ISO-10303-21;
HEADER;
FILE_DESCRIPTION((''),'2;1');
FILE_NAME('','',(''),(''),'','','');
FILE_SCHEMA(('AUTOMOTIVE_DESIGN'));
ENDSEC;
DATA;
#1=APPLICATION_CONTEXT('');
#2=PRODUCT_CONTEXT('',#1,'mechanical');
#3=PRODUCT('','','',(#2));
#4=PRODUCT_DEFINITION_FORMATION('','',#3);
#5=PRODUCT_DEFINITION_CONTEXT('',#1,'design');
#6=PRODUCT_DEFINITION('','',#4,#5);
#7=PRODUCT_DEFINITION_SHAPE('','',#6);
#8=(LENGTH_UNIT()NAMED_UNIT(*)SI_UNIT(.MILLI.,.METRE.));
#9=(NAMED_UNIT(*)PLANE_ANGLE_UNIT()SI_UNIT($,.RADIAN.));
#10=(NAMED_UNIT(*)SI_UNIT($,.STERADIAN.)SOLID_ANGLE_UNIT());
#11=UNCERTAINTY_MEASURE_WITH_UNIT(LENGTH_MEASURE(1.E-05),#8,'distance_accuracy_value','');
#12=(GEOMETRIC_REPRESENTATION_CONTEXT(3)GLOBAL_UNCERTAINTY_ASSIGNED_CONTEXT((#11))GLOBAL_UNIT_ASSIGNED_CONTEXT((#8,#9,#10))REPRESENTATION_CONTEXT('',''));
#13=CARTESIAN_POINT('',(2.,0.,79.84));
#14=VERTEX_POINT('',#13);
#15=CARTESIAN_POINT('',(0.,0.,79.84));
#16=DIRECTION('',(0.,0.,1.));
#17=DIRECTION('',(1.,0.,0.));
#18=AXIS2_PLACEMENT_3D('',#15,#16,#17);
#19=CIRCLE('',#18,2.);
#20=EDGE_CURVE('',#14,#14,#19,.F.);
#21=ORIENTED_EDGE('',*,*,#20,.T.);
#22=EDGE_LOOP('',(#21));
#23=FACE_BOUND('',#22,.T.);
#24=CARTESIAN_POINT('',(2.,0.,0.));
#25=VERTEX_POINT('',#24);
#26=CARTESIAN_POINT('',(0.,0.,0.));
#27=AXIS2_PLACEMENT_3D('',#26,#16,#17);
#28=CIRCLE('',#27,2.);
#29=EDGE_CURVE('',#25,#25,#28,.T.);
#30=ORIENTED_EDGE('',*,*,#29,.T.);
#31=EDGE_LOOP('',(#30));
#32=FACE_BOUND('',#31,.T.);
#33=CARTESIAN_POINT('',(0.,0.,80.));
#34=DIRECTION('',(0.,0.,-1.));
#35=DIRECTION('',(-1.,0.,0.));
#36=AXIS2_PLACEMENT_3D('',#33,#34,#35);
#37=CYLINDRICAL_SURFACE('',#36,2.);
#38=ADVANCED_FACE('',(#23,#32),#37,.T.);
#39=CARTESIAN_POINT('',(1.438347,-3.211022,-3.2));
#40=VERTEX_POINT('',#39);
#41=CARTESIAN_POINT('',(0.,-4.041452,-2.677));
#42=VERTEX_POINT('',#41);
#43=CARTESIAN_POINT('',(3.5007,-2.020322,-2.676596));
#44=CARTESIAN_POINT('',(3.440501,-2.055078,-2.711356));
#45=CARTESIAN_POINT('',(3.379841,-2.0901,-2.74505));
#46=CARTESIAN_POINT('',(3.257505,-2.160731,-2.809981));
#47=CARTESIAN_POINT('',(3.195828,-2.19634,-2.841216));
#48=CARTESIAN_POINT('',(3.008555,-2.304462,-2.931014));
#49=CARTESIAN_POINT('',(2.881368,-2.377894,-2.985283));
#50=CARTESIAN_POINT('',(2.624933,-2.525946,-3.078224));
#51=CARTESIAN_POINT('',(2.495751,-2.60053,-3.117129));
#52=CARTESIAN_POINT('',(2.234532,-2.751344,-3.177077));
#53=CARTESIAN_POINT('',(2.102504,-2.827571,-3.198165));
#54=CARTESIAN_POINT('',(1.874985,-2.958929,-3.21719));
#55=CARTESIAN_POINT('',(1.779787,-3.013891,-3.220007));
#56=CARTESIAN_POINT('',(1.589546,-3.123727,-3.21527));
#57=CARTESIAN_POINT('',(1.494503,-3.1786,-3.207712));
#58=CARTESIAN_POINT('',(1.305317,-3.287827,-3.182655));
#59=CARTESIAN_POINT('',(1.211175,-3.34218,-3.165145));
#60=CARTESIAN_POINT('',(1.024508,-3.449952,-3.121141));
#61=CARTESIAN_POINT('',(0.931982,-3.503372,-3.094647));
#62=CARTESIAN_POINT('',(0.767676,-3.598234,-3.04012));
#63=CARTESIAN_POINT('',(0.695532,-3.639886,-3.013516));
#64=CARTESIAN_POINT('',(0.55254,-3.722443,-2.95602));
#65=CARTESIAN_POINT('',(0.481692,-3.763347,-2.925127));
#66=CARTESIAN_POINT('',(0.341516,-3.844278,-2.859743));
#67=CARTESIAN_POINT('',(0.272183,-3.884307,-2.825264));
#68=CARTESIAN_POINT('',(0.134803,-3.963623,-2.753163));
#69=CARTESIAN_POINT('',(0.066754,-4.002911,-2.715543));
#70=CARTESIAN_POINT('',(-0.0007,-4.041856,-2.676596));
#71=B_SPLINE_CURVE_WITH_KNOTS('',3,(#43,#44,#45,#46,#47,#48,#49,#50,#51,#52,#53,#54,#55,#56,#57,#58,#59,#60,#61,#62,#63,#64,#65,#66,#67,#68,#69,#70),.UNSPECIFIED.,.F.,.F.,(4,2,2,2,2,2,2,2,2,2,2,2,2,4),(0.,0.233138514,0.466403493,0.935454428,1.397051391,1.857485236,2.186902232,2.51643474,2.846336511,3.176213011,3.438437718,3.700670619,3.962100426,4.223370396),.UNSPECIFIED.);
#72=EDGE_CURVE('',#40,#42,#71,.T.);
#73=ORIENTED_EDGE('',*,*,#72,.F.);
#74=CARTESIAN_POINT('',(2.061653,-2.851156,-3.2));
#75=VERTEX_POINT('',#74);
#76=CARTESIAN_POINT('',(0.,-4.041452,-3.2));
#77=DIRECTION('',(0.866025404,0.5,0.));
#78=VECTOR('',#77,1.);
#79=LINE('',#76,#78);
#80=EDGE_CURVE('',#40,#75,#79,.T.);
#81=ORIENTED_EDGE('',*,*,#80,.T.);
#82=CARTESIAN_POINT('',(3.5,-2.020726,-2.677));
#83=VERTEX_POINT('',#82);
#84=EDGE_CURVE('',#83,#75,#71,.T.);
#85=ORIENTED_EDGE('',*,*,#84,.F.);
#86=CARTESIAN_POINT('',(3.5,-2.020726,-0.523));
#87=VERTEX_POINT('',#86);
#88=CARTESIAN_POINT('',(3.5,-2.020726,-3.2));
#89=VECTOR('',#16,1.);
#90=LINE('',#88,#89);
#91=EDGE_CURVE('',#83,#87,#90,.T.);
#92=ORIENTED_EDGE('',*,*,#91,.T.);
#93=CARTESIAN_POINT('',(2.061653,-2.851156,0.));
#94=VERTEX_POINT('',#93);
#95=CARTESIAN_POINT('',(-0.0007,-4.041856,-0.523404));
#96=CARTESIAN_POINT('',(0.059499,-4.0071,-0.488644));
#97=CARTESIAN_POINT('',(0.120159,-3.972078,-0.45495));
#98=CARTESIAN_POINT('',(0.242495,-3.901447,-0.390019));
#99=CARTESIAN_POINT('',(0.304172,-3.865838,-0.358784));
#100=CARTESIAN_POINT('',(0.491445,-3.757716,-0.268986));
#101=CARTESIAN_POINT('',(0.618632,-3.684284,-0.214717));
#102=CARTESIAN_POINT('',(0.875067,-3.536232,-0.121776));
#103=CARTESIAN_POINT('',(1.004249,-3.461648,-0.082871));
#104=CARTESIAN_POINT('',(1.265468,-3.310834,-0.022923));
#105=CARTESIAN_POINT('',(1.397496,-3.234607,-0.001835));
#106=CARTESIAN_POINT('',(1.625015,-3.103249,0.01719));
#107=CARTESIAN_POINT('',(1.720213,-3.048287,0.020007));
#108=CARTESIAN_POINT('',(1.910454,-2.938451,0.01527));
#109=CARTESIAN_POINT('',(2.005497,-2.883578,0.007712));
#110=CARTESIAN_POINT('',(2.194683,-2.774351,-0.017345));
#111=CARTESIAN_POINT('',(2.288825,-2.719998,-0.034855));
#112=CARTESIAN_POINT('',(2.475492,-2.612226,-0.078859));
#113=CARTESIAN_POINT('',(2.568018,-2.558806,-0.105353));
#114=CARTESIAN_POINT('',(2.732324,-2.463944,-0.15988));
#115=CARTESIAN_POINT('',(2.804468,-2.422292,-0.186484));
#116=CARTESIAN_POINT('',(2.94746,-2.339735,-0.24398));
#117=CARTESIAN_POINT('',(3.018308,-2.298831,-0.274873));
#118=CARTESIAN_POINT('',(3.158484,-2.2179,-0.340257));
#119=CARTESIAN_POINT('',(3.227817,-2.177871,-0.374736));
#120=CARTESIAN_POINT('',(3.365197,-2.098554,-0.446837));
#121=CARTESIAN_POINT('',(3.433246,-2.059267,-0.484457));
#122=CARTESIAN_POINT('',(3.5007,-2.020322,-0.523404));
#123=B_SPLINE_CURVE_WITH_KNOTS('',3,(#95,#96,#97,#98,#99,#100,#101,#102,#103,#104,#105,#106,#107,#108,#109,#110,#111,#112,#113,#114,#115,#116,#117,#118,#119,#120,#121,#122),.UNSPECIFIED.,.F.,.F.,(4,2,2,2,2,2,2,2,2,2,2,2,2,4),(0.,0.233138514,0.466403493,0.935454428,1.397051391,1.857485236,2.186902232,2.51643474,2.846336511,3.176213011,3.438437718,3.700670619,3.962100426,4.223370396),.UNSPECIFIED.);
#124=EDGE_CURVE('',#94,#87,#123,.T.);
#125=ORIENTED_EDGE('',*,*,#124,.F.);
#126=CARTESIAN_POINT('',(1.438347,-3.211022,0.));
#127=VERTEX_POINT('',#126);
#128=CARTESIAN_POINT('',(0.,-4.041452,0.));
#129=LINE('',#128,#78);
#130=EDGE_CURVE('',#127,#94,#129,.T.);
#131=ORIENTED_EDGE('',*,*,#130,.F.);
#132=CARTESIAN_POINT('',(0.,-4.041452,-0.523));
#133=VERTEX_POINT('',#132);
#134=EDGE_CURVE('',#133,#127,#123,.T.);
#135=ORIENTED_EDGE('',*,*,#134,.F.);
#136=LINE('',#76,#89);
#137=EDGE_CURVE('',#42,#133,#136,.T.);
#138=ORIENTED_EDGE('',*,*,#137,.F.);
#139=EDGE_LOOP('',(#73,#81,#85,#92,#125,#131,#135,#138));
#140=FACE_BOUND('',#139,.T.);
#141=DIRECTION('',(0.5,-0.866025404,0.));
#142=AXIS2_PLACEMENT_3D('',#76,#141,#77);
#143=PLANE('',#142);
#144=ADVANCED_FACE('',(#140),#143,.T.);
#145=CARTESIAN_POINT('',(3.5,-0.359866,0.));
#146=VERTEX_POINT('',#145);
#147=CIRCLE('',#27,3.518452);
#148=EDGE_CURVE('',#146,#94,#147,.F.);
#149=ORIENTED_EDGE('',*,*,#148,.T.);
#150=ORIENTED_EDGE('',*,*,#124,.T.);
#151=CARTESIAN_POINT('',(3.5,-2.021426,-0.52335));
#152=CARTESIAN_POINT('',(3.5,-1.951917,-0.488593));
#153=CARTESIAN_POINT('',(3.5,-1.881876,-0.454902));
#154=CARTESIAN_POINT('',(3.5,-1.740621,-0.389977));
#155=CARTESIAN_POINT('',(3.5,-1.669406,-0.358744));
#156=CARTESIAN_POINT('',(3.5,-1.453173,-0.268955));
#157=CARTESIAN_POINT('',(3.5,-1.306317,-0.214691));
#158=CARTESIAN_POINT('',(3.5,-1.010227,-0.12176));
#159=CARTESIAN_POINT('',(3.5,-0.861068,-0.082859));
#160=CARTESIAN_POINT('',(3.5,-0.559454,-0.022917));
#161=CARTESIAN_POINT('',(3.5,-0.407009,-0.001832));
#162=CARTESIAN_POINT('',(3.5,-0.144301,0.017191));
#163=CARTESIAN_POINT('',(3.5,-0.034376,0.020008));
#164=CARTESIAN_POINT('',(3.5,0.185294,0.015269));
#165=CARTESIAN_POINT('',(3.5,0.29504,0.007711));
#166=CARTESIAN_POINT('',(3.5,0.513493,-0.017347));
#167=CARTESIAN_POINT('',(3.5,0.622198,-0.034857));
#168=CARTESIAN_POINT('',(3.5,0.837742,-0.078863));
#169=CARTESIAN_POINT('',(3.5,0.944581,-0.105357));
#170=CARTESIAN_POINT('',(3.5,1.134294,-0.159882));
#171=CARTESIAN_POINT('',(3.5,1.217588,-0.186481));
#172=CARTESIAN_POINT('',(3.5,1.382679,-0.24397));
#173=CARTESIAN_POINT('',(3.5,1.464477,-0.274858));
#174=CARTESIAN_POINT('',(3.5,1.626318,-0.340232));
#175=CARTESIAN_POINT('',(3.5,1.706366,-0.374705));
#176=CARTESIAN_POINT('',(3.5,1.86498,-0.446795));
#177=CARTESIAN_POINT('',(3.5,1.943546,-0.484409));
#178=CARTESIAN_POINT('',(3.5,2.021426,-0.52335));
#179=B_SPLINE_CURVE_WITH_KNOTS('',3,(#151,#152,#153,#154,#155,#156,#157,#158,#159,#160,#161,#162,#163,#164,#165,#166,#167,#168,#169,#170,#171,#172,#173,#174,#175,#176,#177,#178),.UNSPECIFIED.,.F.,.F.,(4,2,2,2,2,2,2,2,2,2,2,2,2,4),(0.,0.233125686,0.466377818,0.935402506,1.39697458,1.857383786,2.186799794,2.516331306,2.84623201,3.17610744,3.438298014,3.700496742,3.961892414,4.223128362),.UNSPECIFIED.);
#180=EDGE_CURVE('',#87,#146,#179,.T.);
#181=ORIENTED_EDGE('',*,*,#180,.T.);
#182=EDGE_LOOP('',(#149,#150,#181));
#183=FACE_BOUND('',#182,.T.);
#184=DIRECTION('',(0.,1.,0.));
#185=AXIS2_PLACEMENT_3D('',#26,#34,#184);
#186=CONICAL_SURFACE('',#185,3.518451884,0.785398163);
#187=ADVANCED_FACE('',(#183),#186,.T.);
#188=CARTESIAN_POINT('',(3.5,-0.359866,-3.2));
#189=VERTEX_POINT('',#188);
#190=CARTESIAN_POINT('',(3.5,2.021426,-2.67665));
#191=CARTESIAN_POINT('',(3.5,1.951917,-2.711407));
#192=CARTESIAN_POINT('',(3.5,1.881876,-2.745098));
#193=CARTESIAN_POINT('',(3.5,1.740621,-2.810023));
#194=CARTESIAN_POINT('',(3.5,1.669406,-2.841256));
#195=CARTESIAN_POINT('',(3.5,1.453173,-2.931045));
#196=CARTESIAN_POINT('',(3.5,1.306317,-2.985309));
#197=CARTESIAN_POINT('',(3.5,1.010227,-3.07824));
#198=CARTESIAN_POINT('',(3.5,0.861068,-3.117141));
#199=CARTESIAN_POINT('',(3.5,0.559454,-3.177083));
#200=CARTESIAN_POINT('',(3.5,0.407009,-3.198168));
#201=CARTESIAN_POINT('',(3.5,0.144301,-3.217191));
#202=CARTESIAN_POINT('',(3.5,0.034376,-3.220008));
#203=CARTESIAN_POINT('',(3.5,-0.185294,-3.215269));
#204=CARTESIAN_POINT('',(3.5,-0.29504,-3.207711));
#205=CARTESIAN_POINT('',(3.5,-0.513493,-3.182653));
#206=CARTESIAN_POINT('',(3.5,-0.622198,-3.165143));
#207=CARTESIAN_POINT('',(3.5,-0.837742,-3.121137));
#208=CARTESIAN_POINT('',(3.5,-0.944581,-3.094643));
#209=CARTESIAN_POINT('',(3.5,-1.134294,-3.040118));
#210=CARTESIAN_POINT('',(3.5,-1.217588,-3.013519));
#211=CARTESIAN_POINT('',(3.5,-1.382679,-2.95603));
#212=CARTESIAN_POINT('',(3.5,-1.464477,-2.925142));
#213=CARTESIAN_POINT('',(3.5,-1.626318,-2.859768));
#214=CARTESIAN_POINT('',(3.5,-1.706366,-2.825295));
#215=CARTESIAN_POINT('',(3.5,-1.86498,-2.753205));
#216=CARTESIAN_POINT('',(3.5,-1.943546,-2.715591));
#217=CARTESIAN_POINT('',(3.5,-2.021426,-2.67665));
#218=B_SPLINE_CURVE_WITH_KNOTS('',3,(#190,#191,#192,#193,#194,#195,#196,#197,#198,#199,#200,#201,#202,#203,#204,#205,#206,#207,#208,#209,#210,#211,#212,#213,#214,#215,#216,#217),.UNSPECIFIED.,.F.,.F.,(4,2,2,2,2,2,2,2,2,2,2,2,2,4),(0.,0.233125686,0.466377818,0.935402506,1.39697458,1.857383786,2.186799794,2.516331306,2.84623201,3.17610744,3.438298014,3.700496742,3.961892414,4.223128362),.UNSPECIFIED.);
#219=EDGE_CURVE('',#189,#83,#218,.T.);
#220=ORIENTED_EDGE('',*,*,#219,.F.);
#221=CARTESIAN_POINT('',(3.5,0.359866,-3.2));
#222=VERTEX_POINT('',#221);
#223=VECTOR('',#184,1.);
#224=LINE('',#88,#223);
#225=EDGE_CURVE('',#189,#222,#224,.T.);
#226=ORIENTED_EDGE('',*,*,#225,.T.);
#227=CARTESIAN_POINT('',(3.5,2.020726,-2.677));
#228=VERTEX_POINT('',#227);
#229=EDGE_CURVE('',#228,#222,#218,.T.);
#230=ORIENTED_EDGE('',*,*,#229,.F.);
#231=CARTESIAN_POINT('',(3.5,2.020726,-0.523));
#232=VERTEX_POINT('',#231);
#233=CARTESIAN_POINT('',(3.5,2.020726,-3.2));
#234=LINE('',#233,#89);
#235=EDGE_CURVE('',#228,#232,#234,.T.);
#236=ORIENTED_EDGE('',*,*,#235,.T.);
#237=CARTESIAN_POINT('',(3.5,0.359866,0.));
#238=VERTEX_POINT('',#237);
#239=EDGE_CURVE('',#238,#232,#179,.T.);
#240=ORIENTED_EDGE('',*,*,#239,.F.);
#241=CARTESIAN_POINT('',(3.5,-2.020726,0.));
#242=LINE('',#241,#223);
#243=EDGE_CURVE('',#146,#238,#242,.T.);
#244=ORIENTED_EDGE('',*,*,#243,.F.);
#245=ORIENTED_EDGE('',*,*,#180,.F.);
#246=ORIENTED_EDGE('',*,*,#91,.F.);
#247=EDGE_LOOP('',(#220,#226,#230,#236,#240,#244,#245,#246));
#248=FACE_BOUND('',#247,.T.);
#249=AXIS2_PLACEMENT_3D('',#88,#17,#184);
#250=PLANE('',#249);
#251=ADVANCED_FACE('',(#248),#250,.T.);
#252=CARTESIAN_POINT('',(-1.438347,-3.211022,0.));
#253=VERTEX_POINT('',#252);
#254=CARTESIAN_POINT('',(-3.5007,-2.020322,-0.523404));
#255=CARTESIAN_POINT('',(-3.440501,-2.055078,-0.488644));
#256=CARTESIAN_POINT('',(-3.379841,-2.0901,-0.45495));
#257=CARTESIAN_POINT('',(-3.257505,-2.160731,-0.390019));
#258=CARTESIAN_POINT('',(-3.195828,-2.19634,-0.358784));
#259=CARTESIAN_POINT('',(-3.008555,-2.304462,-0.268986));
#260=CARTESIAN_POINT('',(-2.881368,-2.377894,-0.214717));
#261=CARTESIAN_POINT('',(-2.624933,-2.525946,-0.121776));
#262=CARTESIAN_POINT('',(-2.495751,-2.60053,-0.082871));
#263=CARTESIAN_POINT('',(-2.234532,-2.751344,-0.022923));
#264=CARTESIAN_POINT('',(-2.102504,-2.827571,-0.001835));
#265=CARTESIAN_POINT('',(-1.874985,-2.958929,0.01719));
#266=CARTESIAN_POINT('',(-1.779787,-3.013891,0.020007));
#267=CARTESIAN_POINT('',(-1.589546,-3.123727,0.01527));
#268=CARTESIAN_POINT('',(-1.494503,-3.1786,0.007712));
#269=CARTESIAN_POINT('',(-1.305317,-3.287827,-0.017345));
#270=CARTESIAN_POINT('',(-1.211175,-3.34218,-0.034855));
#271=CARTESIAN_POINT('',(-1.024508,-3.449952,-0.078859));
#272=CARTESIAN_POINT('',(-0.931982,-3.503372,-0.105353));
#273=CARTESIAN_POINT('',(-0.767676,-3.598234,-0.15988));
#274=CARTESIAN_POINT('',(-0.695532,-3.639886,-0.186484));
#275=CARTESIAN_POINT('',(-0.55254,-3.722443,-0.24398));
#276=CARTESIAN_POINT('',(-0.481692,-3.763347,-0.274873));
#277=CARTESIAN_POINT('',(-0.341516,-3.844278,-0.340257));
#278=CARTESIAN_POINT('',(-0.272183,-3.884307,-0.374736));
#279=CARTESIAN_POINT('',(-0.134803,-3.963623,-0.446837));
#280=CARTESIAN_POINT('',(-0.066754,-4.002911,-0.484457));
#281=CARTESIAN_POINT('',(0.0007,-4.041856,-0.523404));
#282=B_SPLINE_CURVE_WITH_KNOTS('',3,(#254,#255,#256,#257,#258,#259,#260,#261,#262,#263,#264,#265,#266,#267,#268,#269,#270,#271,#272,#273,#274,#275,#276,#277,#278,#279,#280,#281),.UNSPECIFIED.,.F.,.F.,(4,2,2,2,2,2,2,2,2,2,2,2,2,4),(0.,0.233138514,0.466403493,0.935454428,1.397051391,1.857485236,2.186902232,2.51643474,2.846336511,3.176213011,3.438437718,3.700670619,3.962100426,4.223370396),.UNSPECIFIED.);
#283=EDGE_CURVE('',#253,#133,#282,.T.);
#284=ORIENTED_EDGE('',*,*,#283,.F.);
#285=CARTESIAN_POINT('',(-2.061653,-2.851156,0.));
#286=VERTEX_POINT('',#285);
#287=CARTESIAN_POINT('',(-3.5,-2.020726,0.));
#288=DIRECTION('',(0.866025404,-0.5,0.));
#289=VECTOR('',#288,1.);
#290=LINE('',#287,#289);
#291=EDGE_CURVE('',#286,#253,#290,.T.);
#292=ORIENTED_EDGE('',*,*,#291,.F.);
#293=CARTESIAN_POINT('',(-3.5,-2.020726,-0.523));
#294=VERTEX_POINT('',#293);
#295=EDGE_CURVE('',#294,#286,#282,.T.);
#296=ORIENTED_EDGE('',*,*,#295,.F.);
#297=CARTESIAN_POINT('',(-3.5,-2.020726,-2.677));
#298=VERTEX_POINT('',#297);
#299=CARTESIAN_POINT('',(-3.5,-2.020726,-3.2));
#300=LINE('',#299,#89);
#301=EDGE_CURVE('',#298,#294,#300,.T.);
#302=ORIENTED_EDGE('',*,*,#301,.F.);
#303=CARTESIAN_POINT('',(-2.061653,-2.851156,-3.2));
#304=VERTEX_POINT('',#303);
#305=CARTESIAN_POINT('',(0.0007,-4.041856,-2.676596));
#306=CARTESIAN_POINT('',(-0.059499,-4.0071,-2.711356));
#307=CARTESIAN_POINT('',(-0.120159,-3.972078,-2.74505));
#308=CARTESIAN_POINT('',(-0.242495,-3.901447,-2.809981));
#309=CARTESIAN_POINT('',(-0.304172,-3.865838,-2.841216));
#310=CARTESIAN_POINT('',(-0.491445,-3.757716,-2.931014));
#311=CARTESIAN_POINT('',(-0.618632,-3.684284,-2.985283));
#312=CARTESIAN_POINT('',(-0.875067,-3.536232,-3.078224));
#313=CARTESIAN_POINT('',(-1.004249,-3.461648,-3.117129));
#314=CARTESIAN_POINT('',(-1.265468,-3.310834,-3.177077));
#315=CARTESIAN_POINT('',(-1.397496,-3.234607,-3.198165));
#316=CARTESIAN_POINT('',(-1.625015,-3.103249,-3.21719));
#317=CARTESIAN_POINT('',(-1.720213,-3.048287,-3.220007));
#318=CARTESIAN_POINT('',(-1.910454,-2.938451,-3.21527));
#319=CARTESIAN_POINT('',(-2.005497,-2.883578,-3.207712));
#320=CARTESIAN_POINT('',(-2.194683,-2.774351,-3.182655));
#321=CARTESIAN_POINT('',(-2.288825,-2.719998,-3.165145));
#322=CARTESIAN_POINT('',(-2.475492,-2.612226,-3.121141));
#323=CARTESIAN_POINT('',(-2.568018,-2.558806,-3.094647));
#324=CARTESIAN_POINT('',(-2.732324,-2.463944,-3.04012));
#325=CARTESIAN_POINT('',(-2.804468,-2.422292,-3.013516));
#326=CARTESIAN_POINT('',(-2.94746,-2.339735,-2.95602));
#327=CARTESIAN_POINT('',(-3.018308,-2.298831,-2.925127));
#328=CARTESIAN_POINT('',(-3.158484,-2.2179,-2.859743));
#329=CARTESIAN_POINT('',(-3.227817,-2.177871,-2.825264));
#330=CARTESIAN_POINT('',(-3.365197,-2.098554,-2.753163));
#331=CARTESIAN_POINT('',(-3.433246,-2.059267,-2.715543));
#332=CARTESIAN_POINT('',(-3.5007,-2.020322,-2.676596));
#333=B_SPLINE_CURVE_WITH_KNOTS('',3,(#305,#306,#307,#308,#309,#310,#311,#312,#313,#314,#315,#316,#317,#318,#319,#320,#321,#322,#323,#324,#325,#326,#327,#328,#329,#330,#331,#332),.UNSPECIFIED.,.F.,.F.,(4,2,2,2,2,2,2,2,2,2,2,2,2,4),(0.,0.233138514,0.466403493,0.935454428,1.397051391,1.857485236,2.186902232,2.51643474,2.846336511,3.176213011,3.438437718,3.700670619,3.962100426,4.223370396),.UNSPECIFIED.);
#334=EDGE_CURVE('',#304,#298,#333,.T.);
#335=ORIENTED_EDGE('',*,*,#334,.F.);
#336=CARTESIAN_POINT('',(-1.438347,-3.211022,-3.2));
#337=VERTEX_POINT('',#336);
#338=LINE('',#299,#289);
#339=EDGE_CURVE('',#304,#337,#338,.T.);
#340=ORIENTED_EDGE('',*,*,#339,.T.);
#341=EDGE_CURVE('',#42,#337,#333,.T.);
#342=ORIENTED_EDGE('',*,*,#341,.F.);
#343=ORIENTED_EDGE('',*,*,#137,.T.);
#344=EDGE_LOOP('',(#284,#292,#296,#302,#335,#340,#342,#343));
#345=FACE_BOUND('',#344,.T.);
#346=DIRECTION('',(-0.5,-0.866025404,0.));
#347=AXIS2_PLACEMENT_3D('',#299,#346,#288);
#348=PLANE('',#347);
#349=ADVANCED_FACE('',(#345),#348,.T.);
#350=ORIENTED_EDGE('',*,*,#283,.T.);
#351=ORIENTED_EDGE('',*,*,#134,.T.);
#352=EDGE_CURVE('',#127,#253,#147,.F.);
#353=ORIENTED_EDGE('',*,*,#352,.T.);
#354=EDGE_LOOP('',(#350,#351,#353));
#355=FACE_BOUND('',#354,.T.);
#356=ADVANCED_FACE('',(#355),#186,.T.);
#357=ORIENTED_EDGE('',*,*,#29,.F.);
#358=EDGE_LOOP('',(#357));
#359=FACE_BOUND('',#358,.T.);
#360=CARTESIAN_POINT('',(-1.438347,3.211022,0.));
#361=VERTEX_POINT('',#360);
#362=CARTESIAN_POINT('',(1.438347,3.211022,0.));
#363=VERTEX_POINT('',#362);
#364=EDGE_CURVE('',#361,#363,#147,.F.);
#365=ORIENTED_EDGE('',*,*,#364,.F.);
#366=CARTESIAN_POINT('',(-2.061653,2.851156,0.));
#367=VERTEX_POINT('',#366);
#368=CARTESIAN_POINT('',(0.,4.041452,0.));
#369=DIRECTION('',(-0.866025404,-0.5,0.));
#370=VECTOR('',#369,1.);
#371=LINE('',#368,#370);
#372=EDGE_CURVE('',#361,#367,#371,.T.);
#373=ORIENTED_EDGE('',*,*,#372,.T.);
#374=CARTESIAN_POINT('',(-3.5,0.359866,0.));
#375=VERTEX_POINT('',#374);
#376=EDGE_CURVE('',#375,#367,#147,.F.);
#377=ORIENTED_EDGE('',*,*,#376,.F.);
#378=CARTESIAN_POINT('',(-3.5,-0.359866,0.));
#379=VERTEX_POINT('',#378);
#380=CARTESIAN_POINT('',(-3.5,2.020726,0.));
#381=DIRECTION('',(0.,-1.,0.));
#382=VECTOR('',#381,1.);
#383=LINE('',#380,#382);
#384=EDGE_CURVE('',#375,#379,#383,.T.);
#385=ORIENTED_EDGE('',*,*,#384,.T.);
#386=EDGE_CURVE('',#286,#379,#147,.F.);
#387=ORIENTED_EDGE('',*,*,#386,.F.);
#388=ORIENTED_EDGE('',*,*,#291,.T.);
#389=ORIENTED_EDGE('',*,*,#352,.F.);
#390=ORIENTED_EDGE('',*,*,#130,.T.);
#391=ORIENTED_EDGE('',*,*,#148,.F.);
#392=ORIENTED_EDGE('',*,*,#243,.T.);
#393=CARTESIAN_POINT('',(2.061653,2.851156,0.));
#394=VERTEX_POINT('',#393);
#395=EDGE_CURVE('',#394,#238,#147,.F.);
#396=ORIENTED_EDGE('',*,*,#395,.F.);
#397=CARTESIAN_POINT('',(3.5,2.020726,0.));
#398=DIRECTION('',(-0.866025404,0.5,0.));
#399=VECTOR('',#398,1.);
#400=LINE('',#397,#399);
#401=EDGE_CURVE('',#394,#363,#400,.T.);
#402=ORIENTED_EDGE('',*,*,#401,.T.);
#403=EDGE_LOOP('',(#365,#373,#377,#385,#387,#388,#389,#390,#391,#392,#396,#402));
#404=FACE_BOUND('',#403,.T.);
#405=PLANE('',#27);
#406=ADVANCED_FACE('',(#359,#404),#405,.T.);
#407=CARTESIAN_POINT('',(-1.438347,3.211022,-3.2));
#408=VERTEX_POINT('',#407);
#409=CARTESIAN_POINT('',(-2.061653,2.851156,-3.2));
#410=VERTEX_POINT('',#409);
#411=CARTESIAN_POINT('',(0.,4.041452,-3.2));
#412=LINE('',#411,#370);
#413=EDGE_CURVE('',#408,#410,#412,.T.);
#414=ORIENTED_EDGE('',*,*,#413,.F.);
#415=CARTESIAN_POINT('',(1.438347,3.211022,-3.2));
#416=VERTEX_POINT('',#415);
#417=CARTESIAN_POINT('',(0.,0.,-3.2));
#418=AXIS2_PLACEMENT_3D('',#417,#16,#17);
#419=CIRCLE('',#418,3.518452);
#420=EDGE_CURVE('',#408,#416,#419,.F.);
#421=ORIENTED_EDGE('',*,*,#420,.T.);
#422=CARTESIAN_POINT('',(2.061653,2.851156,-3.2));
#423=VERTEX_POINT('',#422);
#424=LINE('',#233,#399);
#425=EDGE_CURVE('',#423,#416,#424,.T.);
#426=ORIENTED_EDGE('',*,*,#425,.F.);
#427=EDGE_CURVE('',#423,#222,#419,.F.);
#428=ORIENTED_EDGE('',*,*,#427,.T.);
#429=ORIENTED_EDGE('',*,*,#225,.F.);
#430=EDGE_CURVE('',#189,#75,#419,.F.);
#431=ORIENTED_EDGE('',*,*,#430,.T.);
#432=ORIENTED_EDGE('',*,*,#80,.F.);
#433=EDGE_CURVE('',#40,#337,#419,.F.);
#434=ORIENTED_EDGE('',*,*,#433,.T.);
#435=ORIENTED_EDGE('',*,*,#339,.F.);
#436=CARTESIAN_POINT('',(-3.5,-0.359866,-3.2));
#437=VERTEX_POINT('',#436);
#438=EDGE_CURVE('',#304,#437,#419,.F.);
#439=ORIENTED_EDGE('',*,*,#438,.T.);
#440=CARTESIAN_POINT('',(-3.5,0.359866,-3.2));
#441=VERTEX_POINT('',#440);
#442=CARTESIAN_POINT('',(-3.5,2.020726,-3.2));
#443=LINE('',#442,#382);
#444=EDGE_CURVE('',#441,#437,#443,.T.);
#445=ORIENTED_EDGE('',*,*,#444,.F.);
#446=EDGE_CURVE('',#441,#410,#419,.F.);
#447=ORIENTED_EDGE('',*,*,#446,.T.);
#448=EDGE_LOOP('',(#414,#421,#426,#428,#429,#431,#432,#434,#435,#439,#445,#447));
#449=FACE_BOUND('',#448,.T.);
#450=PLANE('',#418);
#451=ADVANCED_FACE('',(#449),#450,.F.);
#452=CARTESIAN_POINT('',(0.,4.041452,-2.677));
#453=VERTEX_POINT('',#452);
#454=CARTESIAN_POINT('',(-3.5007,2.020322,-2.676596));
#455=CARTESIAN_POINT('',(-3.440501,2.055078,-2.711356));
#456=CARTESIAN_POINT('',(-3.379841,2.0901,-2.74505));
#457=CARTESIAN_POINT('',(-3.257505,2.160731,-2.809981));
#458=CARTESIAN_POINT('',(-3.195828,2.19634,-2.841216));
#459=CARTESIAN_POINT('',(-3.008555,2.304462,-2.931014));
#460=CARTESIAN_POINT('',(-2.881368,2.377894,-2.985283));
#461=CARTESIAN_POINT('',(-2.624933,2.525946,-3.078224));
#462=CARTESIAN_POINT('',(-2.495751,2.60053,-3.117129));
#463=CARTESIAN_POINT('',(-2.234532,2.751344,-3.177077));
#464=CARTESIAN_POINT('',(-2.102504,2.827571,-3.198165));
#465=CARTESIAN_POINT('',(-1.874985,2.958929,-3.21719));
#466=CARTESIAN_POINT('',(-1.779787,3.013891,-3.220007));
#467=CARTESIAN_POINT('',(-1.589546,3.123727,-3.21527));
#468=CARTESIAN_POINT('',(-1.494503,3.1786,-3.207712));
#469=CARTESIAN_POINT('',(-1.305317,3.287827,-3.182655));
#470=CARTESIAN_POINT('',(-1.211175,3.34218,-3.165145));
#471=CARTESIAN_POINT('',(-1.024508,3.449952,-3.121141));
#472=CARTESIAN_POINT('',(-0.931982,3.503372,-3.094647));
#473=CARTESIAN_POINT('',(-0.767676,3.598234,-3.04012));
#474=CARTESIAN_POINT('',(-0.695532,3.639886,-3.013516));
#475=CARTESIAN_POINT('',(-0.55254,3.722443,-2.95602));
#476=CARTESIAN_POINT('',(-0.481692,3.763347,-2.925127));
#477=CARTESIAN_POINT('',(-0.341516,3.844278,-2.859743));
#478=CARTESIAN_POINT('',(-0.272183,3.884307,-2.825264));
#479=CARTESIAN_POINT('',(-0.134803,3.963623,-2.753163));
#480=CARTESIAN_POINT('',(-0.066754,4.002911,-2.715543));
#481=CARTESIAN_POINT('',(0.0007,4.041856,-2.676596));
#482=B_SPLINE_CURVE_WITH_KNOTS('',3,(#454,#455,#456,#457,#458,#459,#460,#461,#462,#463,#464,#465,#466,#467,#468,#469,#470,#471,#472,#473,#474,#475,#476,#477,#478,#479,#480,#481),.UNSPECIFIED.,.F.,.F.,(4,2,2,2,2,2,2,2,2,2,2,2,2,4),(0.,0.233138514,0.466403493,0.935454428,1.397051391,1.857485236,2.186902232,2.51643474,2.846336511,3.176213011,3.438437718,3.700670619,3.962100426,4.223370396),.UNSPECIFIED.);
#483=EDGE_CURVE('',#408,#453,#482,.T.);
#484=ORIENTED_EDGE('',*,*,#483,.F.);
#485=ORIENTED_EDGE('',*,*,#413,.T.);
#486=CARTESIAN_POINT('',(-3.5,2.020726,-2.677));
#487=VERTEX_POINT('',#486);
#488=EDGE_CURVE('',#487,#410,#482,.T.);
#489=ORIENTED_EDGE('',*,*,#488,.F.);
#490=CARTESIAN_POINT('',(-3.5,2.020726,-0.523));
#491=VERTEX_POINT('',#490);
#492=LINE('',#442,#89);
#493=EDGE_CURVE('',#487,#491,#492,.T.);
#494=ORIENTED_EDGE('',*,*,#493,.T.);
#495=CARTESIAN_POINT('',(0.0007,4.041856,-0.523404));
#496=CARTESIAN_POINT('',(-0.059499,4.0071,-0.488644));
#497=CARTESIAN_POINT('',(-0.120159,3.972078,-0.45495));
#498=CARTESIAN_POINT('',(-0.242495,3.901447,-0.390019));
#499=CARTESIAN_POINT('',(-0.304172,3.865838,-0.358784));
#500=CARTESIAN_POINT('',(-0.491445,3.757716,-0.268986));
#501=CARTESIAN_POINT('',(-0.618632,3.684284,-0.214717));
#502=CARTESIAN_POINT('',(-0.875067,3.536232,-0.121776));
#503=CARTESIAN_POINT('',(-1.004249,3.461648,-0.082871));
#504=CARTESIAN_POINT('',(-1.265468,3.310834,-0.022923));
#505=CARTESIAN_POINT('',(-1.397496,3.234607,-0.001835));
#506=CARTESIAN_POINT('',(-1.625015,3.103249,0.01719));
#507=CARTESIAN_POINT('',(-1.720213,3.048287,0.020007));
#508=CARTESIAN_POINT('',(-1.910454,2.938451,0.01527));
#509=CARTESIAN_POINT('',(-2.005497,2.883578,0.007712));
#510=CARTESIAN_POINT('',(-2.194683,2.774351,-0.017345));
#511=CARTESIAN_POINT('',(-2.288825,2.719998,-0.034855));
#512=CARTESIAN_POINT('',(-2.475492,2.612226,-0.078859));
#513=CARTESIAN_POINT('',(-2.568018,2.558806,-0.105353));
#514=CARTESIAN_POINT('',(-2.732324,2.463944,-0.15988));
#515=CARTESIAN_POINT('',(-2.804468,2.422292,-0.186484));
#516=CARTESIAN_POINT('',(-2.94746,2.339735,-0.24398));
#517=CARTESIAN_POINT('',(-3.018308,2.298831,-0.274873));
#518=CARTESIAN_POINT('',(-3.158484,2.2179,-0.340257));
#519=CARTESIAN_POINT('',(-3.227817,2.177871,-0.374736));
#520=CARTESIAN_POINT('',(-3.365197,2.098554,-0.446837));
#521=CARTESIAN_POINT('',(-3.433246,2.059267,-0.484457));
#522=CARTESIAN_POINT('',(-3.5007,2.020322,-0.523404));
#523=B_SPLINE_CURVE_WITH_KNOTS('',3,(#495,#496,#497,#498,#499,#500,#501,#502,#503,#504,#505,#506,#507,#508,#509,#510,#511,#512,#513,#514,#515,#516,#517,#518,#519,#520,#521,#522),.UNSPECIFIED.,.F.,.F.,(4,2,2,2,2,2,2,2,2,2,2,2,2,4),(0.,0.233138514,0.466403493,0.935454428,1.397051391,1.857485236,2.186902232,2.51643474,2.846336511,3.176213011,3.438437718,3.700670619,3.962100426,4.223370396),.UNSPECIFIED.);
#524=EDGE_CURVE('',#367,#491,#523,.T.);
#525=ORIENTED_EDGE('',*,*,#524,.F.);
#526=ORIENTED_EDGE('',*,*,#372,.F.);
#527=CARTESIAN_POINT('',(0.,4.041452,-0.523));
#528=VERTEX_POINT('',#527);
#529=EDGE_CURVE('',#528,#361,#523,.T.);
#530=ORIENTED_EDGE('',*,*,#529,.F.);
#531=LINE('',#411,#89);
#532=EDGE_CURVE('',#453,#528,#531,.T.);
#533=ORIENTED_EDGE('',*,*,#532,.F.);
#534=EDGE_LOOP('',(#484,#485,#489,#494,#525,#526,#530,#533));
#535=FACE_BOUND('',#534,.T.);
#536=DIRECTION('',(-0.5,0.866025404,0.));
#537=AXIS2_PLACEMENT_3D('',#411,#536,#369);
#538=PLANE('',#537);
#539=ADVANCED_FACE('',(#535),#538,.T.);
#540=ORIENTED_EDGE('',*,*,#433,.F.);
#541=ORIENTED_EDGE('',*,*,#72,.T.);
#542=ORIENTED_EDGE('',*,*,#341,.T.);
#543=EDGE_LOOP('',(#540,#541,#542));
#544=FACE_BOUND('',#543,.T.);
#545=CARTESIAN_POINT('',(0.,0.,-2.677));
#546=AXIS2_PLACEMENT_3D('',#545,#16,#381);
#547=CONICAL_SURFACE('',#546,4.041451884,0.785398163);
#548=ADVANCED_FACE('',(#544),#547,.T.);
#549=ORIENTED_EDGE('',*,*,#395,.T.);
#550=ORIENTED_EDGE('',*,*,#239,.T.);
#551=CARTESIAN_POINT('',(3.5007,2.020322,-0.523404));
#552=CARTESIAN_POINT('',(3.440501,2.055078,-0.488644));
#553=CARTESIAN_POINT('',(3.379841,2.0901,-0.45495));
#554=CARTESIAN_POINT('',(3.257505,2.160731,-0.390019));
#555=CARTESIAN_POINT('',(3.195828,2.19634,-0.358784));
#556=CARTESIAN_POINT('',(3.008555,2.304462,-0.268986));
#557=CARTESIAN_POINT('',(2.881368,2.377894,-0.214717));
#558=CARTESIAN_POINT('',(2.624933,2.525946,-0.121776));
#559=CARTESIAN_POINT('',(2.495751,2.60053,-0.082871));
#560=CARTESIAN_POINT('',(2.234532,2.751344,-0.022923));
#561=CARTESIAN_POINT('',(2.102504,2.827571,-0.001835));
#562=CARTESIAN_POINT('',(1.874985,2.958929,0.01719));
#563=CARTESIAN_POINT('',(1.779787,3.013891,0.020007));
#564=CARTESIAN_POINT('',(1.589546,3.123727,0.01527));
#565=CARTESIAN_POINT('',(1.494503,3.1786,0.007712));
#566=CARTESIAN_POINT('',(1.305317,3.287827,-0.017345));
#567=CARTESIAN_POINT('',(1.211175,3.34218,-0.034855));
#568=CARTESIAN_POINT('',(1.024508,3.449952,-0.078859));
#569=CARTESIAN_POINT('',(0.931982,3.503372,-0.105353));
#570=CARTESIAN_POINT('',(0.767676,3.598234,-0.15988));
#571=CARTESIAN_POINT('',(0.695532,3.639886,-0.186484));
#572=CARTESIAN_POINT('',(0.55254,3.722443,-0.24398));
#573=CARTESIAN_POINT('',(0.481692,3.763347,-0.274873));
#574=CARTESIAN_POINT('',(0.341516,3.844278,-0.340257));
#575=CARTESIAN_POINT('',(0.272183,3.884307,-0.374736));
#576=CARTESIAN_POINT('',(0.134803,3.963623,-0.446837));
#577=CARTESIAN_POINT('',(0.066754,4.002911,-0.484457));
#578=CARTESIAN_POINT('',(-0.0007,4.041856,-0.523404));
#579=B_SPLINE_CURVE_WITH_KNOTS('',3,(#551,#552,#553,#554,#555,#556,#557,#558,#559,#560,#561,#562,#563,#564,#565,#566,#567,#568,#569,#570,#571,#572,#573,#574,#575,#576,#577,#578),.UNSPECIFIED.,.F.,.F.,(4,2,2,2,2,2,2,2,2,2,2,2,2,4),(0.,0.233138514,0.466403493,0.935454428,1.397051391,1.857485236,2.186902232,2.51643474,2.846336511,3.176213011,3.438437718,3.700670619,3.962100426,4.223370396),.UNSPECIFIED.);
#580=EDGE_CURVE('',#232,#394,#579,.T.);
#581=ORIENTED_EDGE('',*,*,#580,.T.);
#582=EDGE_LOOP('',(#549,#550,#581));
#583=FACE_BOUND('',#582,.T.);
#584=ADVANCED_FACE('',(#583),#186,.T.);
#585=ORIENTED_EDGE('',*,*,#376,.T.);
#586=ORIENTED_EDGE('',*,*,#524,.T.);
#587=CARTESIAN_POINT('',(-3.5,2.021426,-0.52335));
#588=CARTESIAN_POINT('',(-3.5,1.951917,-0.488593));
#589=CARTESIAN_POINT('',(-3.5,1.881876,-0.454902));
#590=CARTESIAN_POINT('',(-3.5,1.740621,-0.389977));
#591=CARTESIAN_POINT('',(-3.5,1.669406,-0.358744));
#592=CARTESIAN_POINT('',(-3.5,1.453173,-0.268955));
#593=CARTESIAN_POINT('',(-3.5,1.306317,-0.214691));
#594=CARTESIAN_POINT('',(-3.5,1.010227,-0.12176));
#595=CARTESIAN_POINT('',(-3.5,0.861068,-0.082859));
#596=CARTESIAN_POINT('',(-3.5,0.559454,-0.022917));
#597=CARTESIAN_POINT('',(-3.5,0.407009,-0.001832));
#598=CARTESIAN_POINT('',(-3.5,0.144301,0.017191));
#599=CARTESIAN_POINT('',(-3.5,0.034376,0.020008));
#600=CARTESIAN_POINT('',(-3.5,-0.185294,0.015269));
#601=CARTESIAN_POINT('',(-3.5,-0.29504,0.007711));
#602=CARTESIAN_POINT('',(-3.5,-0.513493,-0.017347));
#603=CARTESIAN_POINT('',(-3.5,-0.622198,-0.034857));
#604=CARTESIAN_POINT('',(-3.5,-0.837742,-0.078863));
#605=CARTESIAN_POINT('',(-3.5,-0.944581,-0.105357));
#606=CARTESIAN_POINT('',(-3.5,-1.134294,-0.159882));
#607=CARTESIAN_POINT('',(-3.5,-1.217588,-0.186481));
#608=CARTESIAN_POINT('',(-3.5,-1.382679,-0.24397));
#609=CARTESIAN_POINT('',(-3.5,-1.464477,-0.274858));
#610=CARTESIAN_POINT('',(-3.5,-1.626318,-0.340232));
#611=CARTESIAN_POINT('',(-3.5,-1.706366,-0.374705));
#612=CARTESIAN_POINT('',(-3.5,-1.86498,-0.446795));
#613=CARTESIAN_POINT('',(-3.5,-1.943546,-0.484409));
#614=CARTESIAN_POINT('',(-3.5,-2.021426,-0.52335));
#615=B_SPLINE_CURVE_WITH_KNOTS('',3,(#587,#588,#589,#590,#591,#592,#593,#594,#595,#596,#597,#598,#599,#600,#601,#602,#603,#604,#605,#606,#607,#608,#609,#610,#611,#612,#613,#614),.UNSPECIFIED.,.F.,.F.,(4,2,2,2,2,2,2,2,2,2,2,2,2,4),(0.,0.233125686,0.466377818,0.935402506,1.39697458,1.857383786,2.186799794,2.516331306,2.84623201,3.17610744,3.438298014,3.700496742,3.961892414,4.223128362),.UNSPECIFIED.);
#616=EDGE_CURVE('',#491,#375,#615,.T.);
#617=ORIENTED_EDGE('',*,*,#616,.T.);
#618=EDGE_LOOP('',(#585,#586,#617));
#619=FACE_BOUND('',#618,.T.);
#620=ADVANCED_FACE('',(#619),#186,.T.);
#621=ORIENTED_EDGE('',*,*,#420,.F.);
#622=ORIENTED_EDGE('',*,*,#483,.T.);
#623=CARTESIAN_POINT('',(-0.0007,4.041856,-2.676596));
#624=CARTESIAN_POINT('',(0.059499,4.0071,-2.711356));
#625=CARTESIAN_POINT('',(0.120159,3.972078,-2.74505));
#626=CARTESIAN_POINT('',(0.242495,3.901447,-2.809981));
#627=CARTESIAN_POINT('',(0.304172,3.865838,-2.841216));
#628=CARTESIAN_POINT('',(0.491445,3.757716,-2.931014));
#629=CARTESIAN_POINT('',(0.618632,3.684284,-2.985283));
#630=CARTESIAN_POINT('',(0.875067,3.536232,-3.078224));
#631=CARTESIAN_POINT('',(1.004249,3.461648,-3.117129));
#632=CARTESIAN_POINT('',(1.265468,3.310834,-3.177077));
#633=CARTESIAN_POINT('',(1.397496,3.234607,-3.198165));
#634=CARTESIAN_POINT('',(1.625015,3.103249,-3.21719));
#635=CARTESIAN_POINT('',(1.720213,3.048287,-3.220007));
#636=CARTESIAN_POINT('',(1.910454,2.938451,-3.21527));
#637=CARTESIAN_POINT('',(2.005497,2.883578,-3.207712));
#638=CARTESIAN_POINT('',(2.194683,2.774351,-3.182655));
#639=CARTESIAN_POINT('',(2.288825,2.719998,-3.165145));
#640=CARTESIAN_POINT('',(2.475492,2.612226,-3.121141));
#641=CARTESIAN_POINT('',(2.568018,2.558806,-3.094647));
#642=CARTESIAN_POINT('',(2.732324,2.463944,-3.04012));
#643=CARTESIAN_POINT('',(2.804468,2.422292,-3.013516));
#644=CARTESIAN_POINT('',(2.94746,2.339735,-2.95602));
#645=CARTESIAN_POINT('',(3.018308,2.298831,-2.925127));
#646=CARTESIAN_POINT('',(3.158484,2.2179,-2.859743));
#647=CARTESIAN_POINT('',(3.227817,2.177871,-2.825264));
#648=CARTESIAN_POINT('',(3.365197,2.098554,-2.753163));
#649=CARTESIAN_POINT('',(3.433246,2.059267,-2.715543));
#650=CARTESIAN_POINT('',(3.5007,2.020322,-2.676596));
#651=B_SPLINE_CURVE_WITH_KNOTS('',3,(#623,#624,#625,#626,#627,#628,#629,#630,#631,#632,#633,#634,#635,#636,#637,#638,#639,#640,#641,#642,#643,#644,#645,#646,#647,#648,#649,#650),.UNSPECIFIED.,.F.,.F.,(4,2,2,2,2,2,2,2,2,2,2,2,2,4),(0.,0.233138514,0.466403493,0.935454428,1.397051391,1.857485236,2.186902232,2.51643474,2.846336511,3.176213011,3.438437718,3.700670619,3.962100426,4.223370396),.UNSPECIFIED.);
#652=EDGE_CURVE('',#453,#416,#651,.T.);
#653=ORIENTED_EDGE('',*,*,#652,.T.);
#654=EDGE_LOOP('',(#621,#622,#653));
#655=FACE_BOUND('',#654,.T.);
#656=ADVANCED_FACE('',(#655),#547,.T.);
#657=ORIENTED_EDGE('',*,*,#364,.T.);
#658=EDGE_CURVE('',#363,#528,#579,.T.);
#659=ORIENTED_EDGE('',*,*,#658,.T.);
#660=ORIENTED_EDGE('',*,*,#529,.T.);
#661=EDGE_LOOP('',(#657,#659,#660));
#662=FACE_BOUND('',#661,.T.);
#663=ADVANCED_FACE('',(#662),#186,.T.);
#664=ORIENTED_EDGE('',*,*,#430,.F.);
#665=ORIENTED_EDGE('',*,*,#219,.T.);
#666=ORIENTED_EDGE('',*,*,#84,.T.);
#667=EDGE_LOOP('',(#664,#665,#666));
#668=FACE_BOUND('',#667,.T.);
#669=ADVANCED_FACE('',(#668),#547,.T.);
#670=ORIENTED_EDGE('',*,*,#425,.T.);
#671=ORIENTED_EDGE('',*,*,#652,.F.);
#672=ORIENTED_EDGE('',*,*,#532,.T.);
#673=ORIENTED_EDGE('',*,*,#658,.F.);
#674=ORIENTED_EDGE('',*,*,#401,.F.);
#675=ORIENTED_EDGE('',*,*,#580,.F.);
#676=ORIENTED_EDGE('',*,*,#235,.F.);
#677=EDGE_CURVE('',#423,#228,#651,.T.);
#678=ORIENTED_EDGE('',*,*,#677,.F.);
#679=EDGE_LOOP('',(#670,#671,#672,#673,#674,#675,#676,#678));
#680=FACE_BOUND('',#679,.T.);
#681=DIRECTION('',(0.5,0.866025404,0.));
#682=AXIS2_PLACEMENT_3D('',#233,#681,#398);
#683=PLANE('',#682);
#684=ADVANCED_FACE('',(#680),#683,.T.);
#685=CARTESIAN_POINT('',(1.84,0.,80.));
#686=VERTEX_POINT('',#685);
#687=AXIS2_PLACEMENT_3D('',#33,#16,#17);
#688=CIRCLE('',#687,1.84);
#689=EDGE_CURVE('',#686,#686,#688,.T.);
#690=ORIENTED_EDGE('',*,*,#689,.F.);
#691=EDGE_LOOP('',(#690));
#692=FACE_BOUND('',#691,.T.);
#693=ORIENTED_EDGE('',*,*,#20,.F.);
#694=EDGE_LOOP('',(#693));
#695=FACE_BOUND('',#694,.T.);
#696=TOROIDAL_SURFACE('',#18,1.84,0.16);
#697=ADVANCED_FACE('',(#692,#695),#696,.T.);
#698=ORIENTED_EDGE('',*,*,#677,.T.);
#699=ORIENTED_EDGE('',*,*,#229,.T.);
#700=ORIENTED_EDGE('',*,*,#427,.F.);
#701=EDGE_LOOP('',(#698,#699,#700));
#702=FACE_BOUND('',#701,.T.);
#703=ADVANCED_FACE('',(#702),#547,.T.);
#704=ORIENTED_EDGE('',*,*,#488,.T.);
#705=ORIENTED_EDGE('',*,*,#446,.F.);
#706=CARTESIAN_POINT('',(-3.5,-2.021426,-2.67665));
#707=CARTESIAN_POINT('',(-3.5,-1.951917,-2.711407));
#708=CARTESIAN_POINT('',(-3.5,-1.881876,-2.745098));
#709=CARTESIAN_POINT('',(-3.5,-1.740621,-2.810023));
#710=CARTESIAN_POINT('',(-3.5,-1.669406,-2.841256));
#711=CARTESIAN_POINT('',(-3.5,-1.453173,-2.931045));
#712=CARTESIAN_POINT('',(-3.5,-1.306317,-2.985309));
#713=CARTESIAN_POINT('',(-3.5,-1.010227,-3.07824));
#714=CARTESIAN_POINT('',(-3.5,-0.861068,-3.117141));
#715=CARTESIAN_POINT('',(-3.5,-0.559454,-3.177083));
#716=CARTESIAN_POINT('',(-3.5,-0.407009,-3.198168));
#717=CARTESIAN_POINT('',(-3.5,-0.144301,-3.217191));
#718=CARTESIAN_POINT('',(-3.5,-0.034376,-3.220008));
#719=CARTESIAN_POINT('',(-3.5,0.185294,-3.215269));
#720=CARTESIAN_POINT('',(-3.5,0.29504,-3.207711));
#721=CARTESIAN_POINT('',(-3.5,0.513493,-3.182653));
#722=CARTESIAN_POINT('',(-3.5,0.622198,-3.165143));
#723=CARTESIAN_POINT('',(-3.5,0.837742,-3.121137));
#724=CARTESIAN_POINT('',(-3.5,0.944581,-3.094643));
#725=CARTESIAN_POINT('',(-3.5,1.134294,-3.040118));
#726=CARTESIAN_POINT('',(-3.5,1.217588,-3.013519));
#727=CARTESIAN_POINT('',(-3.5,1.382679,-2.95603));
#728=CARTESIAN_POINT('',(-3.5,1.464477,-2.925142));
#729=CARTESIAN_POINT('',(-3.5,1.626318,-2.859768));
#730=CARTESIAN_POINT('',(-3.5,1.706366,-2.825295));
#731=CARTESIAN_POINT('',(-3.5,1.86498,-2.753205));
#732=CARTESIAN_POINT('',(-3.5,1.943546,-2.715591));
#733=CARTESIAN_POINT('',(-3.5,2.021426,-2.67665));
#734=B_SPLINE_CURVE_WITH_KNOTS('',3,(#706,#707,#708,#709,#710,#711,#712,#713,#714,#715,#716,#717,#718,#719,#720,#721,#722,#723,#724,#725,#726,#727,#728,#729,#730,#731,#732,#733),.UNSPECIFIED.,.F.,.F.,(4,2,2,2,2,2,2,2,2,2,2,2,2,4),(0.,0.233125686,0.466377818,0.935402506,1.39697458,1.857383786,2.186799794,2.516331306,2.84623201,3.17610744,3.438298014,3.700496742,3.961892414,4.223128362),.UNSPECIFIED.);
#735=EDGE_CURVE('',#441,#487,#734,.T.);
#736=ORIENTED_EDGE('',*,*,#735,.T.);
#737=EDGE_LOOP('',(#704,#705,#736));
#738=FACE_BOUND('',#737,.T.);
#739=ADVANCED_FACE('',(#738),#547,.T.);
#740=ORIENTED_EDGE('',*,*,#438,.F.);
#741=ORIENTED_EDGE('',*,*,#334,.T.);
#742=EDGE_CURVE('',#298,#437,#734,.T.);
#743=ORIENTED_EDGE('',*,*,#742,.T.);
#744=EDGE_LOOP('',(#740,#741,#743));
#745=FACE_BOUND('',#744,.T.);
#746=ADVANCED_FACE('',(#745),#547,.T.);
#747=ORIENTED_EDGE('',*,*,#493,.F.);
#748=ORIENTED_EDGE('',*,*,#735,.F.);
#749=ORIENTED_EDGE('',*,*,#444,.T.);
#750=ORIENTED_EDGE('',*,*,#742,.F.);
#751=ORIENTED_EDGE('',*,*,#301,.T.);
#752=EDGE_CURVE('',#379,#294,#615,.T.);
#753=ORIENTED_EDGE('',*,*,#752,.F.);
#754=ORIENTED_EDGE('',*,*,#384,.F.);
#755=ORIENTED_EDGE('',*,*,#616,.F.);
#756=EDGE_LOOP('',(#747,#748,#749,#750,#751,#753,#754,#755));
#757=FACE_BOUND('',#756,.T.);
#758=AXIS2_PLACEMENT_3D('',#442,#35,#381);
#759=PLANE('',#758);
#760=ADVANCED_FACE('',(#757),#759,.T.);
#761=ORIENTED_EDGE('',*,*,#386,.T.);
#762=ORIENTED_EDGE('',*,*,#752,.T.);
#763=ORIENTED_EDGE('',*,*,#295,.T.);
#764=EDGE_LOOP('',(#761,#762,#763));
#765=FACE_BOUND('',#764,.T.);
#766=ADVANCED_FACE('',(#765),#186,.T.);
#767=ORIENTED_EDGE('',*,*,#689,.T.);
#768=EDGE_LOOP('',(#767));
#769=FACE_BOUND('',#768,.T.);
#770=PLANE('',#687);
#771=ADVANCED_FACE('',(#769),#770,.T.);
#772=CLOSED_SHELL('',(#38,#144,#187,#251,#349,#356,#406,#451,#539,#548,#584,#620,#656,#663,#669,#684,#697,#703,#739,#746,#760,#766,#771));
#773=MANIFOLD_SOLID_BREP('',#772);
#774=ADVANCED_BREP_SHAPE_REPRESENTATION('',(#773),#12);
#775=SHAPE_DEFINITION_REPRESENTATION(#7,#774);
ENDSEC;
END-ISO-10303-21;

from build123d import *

# Parameters (mm, degrees)
EXTRUDE_1_DEPTH = 3.2
SKETCH_2_R      = 2
EXTRUDE_2_DEPTH = 80
FILLET_1_R      = 0.16


with BuildPart() as part:
    # 草图1 → 凸台-拉伸1 (new body)
    with BuildSketch(Plane.XY):
        Polygon((0, 4.041451884), (-3.5, 2.020725942), (-3.5, -2.020725942), (0, -4.041451884), (3.5, -2.020725942), (3.5, 2.020725942), align=None)
    extrude(amount=-EXTRUDE_1_DEPTH)

    # 草图3 → 切除-旋转1 (revolve, cut)
    with BuildSketch(Plane(origin=(0, 0, 0), x_dir=(0, 0, -1), z_dir=(1, 0, 0))):
        Polygon((0.523, 4.041451884), (0, 3.518451884), (0, 4.041451884), align=None)
        Polygon((3.2, 4.041451884), (3.2, 3.518451884), (2.677, 4.041451884), align=None)
    revolve(axis=Axis((0, 0, 0), (0, 0, 1)), mode=Mode.SUBTRACT)

    # 草图2 → 凸台-拉伸2 (add)
    with BuildSketch(Plane.XY):
        Circle(SKETCH_2_R)
    extrude(amount=EXTRUDE_2_DEPTH)

    # 圆角1
    fillet_1_edges = [part.edges().sort_by_distance(p)[0] for p in [
        (-2, 0, 80),
    ]]
    fillet(fillet_1_edges, radius=FILLET_1_R)


solid = part.part
